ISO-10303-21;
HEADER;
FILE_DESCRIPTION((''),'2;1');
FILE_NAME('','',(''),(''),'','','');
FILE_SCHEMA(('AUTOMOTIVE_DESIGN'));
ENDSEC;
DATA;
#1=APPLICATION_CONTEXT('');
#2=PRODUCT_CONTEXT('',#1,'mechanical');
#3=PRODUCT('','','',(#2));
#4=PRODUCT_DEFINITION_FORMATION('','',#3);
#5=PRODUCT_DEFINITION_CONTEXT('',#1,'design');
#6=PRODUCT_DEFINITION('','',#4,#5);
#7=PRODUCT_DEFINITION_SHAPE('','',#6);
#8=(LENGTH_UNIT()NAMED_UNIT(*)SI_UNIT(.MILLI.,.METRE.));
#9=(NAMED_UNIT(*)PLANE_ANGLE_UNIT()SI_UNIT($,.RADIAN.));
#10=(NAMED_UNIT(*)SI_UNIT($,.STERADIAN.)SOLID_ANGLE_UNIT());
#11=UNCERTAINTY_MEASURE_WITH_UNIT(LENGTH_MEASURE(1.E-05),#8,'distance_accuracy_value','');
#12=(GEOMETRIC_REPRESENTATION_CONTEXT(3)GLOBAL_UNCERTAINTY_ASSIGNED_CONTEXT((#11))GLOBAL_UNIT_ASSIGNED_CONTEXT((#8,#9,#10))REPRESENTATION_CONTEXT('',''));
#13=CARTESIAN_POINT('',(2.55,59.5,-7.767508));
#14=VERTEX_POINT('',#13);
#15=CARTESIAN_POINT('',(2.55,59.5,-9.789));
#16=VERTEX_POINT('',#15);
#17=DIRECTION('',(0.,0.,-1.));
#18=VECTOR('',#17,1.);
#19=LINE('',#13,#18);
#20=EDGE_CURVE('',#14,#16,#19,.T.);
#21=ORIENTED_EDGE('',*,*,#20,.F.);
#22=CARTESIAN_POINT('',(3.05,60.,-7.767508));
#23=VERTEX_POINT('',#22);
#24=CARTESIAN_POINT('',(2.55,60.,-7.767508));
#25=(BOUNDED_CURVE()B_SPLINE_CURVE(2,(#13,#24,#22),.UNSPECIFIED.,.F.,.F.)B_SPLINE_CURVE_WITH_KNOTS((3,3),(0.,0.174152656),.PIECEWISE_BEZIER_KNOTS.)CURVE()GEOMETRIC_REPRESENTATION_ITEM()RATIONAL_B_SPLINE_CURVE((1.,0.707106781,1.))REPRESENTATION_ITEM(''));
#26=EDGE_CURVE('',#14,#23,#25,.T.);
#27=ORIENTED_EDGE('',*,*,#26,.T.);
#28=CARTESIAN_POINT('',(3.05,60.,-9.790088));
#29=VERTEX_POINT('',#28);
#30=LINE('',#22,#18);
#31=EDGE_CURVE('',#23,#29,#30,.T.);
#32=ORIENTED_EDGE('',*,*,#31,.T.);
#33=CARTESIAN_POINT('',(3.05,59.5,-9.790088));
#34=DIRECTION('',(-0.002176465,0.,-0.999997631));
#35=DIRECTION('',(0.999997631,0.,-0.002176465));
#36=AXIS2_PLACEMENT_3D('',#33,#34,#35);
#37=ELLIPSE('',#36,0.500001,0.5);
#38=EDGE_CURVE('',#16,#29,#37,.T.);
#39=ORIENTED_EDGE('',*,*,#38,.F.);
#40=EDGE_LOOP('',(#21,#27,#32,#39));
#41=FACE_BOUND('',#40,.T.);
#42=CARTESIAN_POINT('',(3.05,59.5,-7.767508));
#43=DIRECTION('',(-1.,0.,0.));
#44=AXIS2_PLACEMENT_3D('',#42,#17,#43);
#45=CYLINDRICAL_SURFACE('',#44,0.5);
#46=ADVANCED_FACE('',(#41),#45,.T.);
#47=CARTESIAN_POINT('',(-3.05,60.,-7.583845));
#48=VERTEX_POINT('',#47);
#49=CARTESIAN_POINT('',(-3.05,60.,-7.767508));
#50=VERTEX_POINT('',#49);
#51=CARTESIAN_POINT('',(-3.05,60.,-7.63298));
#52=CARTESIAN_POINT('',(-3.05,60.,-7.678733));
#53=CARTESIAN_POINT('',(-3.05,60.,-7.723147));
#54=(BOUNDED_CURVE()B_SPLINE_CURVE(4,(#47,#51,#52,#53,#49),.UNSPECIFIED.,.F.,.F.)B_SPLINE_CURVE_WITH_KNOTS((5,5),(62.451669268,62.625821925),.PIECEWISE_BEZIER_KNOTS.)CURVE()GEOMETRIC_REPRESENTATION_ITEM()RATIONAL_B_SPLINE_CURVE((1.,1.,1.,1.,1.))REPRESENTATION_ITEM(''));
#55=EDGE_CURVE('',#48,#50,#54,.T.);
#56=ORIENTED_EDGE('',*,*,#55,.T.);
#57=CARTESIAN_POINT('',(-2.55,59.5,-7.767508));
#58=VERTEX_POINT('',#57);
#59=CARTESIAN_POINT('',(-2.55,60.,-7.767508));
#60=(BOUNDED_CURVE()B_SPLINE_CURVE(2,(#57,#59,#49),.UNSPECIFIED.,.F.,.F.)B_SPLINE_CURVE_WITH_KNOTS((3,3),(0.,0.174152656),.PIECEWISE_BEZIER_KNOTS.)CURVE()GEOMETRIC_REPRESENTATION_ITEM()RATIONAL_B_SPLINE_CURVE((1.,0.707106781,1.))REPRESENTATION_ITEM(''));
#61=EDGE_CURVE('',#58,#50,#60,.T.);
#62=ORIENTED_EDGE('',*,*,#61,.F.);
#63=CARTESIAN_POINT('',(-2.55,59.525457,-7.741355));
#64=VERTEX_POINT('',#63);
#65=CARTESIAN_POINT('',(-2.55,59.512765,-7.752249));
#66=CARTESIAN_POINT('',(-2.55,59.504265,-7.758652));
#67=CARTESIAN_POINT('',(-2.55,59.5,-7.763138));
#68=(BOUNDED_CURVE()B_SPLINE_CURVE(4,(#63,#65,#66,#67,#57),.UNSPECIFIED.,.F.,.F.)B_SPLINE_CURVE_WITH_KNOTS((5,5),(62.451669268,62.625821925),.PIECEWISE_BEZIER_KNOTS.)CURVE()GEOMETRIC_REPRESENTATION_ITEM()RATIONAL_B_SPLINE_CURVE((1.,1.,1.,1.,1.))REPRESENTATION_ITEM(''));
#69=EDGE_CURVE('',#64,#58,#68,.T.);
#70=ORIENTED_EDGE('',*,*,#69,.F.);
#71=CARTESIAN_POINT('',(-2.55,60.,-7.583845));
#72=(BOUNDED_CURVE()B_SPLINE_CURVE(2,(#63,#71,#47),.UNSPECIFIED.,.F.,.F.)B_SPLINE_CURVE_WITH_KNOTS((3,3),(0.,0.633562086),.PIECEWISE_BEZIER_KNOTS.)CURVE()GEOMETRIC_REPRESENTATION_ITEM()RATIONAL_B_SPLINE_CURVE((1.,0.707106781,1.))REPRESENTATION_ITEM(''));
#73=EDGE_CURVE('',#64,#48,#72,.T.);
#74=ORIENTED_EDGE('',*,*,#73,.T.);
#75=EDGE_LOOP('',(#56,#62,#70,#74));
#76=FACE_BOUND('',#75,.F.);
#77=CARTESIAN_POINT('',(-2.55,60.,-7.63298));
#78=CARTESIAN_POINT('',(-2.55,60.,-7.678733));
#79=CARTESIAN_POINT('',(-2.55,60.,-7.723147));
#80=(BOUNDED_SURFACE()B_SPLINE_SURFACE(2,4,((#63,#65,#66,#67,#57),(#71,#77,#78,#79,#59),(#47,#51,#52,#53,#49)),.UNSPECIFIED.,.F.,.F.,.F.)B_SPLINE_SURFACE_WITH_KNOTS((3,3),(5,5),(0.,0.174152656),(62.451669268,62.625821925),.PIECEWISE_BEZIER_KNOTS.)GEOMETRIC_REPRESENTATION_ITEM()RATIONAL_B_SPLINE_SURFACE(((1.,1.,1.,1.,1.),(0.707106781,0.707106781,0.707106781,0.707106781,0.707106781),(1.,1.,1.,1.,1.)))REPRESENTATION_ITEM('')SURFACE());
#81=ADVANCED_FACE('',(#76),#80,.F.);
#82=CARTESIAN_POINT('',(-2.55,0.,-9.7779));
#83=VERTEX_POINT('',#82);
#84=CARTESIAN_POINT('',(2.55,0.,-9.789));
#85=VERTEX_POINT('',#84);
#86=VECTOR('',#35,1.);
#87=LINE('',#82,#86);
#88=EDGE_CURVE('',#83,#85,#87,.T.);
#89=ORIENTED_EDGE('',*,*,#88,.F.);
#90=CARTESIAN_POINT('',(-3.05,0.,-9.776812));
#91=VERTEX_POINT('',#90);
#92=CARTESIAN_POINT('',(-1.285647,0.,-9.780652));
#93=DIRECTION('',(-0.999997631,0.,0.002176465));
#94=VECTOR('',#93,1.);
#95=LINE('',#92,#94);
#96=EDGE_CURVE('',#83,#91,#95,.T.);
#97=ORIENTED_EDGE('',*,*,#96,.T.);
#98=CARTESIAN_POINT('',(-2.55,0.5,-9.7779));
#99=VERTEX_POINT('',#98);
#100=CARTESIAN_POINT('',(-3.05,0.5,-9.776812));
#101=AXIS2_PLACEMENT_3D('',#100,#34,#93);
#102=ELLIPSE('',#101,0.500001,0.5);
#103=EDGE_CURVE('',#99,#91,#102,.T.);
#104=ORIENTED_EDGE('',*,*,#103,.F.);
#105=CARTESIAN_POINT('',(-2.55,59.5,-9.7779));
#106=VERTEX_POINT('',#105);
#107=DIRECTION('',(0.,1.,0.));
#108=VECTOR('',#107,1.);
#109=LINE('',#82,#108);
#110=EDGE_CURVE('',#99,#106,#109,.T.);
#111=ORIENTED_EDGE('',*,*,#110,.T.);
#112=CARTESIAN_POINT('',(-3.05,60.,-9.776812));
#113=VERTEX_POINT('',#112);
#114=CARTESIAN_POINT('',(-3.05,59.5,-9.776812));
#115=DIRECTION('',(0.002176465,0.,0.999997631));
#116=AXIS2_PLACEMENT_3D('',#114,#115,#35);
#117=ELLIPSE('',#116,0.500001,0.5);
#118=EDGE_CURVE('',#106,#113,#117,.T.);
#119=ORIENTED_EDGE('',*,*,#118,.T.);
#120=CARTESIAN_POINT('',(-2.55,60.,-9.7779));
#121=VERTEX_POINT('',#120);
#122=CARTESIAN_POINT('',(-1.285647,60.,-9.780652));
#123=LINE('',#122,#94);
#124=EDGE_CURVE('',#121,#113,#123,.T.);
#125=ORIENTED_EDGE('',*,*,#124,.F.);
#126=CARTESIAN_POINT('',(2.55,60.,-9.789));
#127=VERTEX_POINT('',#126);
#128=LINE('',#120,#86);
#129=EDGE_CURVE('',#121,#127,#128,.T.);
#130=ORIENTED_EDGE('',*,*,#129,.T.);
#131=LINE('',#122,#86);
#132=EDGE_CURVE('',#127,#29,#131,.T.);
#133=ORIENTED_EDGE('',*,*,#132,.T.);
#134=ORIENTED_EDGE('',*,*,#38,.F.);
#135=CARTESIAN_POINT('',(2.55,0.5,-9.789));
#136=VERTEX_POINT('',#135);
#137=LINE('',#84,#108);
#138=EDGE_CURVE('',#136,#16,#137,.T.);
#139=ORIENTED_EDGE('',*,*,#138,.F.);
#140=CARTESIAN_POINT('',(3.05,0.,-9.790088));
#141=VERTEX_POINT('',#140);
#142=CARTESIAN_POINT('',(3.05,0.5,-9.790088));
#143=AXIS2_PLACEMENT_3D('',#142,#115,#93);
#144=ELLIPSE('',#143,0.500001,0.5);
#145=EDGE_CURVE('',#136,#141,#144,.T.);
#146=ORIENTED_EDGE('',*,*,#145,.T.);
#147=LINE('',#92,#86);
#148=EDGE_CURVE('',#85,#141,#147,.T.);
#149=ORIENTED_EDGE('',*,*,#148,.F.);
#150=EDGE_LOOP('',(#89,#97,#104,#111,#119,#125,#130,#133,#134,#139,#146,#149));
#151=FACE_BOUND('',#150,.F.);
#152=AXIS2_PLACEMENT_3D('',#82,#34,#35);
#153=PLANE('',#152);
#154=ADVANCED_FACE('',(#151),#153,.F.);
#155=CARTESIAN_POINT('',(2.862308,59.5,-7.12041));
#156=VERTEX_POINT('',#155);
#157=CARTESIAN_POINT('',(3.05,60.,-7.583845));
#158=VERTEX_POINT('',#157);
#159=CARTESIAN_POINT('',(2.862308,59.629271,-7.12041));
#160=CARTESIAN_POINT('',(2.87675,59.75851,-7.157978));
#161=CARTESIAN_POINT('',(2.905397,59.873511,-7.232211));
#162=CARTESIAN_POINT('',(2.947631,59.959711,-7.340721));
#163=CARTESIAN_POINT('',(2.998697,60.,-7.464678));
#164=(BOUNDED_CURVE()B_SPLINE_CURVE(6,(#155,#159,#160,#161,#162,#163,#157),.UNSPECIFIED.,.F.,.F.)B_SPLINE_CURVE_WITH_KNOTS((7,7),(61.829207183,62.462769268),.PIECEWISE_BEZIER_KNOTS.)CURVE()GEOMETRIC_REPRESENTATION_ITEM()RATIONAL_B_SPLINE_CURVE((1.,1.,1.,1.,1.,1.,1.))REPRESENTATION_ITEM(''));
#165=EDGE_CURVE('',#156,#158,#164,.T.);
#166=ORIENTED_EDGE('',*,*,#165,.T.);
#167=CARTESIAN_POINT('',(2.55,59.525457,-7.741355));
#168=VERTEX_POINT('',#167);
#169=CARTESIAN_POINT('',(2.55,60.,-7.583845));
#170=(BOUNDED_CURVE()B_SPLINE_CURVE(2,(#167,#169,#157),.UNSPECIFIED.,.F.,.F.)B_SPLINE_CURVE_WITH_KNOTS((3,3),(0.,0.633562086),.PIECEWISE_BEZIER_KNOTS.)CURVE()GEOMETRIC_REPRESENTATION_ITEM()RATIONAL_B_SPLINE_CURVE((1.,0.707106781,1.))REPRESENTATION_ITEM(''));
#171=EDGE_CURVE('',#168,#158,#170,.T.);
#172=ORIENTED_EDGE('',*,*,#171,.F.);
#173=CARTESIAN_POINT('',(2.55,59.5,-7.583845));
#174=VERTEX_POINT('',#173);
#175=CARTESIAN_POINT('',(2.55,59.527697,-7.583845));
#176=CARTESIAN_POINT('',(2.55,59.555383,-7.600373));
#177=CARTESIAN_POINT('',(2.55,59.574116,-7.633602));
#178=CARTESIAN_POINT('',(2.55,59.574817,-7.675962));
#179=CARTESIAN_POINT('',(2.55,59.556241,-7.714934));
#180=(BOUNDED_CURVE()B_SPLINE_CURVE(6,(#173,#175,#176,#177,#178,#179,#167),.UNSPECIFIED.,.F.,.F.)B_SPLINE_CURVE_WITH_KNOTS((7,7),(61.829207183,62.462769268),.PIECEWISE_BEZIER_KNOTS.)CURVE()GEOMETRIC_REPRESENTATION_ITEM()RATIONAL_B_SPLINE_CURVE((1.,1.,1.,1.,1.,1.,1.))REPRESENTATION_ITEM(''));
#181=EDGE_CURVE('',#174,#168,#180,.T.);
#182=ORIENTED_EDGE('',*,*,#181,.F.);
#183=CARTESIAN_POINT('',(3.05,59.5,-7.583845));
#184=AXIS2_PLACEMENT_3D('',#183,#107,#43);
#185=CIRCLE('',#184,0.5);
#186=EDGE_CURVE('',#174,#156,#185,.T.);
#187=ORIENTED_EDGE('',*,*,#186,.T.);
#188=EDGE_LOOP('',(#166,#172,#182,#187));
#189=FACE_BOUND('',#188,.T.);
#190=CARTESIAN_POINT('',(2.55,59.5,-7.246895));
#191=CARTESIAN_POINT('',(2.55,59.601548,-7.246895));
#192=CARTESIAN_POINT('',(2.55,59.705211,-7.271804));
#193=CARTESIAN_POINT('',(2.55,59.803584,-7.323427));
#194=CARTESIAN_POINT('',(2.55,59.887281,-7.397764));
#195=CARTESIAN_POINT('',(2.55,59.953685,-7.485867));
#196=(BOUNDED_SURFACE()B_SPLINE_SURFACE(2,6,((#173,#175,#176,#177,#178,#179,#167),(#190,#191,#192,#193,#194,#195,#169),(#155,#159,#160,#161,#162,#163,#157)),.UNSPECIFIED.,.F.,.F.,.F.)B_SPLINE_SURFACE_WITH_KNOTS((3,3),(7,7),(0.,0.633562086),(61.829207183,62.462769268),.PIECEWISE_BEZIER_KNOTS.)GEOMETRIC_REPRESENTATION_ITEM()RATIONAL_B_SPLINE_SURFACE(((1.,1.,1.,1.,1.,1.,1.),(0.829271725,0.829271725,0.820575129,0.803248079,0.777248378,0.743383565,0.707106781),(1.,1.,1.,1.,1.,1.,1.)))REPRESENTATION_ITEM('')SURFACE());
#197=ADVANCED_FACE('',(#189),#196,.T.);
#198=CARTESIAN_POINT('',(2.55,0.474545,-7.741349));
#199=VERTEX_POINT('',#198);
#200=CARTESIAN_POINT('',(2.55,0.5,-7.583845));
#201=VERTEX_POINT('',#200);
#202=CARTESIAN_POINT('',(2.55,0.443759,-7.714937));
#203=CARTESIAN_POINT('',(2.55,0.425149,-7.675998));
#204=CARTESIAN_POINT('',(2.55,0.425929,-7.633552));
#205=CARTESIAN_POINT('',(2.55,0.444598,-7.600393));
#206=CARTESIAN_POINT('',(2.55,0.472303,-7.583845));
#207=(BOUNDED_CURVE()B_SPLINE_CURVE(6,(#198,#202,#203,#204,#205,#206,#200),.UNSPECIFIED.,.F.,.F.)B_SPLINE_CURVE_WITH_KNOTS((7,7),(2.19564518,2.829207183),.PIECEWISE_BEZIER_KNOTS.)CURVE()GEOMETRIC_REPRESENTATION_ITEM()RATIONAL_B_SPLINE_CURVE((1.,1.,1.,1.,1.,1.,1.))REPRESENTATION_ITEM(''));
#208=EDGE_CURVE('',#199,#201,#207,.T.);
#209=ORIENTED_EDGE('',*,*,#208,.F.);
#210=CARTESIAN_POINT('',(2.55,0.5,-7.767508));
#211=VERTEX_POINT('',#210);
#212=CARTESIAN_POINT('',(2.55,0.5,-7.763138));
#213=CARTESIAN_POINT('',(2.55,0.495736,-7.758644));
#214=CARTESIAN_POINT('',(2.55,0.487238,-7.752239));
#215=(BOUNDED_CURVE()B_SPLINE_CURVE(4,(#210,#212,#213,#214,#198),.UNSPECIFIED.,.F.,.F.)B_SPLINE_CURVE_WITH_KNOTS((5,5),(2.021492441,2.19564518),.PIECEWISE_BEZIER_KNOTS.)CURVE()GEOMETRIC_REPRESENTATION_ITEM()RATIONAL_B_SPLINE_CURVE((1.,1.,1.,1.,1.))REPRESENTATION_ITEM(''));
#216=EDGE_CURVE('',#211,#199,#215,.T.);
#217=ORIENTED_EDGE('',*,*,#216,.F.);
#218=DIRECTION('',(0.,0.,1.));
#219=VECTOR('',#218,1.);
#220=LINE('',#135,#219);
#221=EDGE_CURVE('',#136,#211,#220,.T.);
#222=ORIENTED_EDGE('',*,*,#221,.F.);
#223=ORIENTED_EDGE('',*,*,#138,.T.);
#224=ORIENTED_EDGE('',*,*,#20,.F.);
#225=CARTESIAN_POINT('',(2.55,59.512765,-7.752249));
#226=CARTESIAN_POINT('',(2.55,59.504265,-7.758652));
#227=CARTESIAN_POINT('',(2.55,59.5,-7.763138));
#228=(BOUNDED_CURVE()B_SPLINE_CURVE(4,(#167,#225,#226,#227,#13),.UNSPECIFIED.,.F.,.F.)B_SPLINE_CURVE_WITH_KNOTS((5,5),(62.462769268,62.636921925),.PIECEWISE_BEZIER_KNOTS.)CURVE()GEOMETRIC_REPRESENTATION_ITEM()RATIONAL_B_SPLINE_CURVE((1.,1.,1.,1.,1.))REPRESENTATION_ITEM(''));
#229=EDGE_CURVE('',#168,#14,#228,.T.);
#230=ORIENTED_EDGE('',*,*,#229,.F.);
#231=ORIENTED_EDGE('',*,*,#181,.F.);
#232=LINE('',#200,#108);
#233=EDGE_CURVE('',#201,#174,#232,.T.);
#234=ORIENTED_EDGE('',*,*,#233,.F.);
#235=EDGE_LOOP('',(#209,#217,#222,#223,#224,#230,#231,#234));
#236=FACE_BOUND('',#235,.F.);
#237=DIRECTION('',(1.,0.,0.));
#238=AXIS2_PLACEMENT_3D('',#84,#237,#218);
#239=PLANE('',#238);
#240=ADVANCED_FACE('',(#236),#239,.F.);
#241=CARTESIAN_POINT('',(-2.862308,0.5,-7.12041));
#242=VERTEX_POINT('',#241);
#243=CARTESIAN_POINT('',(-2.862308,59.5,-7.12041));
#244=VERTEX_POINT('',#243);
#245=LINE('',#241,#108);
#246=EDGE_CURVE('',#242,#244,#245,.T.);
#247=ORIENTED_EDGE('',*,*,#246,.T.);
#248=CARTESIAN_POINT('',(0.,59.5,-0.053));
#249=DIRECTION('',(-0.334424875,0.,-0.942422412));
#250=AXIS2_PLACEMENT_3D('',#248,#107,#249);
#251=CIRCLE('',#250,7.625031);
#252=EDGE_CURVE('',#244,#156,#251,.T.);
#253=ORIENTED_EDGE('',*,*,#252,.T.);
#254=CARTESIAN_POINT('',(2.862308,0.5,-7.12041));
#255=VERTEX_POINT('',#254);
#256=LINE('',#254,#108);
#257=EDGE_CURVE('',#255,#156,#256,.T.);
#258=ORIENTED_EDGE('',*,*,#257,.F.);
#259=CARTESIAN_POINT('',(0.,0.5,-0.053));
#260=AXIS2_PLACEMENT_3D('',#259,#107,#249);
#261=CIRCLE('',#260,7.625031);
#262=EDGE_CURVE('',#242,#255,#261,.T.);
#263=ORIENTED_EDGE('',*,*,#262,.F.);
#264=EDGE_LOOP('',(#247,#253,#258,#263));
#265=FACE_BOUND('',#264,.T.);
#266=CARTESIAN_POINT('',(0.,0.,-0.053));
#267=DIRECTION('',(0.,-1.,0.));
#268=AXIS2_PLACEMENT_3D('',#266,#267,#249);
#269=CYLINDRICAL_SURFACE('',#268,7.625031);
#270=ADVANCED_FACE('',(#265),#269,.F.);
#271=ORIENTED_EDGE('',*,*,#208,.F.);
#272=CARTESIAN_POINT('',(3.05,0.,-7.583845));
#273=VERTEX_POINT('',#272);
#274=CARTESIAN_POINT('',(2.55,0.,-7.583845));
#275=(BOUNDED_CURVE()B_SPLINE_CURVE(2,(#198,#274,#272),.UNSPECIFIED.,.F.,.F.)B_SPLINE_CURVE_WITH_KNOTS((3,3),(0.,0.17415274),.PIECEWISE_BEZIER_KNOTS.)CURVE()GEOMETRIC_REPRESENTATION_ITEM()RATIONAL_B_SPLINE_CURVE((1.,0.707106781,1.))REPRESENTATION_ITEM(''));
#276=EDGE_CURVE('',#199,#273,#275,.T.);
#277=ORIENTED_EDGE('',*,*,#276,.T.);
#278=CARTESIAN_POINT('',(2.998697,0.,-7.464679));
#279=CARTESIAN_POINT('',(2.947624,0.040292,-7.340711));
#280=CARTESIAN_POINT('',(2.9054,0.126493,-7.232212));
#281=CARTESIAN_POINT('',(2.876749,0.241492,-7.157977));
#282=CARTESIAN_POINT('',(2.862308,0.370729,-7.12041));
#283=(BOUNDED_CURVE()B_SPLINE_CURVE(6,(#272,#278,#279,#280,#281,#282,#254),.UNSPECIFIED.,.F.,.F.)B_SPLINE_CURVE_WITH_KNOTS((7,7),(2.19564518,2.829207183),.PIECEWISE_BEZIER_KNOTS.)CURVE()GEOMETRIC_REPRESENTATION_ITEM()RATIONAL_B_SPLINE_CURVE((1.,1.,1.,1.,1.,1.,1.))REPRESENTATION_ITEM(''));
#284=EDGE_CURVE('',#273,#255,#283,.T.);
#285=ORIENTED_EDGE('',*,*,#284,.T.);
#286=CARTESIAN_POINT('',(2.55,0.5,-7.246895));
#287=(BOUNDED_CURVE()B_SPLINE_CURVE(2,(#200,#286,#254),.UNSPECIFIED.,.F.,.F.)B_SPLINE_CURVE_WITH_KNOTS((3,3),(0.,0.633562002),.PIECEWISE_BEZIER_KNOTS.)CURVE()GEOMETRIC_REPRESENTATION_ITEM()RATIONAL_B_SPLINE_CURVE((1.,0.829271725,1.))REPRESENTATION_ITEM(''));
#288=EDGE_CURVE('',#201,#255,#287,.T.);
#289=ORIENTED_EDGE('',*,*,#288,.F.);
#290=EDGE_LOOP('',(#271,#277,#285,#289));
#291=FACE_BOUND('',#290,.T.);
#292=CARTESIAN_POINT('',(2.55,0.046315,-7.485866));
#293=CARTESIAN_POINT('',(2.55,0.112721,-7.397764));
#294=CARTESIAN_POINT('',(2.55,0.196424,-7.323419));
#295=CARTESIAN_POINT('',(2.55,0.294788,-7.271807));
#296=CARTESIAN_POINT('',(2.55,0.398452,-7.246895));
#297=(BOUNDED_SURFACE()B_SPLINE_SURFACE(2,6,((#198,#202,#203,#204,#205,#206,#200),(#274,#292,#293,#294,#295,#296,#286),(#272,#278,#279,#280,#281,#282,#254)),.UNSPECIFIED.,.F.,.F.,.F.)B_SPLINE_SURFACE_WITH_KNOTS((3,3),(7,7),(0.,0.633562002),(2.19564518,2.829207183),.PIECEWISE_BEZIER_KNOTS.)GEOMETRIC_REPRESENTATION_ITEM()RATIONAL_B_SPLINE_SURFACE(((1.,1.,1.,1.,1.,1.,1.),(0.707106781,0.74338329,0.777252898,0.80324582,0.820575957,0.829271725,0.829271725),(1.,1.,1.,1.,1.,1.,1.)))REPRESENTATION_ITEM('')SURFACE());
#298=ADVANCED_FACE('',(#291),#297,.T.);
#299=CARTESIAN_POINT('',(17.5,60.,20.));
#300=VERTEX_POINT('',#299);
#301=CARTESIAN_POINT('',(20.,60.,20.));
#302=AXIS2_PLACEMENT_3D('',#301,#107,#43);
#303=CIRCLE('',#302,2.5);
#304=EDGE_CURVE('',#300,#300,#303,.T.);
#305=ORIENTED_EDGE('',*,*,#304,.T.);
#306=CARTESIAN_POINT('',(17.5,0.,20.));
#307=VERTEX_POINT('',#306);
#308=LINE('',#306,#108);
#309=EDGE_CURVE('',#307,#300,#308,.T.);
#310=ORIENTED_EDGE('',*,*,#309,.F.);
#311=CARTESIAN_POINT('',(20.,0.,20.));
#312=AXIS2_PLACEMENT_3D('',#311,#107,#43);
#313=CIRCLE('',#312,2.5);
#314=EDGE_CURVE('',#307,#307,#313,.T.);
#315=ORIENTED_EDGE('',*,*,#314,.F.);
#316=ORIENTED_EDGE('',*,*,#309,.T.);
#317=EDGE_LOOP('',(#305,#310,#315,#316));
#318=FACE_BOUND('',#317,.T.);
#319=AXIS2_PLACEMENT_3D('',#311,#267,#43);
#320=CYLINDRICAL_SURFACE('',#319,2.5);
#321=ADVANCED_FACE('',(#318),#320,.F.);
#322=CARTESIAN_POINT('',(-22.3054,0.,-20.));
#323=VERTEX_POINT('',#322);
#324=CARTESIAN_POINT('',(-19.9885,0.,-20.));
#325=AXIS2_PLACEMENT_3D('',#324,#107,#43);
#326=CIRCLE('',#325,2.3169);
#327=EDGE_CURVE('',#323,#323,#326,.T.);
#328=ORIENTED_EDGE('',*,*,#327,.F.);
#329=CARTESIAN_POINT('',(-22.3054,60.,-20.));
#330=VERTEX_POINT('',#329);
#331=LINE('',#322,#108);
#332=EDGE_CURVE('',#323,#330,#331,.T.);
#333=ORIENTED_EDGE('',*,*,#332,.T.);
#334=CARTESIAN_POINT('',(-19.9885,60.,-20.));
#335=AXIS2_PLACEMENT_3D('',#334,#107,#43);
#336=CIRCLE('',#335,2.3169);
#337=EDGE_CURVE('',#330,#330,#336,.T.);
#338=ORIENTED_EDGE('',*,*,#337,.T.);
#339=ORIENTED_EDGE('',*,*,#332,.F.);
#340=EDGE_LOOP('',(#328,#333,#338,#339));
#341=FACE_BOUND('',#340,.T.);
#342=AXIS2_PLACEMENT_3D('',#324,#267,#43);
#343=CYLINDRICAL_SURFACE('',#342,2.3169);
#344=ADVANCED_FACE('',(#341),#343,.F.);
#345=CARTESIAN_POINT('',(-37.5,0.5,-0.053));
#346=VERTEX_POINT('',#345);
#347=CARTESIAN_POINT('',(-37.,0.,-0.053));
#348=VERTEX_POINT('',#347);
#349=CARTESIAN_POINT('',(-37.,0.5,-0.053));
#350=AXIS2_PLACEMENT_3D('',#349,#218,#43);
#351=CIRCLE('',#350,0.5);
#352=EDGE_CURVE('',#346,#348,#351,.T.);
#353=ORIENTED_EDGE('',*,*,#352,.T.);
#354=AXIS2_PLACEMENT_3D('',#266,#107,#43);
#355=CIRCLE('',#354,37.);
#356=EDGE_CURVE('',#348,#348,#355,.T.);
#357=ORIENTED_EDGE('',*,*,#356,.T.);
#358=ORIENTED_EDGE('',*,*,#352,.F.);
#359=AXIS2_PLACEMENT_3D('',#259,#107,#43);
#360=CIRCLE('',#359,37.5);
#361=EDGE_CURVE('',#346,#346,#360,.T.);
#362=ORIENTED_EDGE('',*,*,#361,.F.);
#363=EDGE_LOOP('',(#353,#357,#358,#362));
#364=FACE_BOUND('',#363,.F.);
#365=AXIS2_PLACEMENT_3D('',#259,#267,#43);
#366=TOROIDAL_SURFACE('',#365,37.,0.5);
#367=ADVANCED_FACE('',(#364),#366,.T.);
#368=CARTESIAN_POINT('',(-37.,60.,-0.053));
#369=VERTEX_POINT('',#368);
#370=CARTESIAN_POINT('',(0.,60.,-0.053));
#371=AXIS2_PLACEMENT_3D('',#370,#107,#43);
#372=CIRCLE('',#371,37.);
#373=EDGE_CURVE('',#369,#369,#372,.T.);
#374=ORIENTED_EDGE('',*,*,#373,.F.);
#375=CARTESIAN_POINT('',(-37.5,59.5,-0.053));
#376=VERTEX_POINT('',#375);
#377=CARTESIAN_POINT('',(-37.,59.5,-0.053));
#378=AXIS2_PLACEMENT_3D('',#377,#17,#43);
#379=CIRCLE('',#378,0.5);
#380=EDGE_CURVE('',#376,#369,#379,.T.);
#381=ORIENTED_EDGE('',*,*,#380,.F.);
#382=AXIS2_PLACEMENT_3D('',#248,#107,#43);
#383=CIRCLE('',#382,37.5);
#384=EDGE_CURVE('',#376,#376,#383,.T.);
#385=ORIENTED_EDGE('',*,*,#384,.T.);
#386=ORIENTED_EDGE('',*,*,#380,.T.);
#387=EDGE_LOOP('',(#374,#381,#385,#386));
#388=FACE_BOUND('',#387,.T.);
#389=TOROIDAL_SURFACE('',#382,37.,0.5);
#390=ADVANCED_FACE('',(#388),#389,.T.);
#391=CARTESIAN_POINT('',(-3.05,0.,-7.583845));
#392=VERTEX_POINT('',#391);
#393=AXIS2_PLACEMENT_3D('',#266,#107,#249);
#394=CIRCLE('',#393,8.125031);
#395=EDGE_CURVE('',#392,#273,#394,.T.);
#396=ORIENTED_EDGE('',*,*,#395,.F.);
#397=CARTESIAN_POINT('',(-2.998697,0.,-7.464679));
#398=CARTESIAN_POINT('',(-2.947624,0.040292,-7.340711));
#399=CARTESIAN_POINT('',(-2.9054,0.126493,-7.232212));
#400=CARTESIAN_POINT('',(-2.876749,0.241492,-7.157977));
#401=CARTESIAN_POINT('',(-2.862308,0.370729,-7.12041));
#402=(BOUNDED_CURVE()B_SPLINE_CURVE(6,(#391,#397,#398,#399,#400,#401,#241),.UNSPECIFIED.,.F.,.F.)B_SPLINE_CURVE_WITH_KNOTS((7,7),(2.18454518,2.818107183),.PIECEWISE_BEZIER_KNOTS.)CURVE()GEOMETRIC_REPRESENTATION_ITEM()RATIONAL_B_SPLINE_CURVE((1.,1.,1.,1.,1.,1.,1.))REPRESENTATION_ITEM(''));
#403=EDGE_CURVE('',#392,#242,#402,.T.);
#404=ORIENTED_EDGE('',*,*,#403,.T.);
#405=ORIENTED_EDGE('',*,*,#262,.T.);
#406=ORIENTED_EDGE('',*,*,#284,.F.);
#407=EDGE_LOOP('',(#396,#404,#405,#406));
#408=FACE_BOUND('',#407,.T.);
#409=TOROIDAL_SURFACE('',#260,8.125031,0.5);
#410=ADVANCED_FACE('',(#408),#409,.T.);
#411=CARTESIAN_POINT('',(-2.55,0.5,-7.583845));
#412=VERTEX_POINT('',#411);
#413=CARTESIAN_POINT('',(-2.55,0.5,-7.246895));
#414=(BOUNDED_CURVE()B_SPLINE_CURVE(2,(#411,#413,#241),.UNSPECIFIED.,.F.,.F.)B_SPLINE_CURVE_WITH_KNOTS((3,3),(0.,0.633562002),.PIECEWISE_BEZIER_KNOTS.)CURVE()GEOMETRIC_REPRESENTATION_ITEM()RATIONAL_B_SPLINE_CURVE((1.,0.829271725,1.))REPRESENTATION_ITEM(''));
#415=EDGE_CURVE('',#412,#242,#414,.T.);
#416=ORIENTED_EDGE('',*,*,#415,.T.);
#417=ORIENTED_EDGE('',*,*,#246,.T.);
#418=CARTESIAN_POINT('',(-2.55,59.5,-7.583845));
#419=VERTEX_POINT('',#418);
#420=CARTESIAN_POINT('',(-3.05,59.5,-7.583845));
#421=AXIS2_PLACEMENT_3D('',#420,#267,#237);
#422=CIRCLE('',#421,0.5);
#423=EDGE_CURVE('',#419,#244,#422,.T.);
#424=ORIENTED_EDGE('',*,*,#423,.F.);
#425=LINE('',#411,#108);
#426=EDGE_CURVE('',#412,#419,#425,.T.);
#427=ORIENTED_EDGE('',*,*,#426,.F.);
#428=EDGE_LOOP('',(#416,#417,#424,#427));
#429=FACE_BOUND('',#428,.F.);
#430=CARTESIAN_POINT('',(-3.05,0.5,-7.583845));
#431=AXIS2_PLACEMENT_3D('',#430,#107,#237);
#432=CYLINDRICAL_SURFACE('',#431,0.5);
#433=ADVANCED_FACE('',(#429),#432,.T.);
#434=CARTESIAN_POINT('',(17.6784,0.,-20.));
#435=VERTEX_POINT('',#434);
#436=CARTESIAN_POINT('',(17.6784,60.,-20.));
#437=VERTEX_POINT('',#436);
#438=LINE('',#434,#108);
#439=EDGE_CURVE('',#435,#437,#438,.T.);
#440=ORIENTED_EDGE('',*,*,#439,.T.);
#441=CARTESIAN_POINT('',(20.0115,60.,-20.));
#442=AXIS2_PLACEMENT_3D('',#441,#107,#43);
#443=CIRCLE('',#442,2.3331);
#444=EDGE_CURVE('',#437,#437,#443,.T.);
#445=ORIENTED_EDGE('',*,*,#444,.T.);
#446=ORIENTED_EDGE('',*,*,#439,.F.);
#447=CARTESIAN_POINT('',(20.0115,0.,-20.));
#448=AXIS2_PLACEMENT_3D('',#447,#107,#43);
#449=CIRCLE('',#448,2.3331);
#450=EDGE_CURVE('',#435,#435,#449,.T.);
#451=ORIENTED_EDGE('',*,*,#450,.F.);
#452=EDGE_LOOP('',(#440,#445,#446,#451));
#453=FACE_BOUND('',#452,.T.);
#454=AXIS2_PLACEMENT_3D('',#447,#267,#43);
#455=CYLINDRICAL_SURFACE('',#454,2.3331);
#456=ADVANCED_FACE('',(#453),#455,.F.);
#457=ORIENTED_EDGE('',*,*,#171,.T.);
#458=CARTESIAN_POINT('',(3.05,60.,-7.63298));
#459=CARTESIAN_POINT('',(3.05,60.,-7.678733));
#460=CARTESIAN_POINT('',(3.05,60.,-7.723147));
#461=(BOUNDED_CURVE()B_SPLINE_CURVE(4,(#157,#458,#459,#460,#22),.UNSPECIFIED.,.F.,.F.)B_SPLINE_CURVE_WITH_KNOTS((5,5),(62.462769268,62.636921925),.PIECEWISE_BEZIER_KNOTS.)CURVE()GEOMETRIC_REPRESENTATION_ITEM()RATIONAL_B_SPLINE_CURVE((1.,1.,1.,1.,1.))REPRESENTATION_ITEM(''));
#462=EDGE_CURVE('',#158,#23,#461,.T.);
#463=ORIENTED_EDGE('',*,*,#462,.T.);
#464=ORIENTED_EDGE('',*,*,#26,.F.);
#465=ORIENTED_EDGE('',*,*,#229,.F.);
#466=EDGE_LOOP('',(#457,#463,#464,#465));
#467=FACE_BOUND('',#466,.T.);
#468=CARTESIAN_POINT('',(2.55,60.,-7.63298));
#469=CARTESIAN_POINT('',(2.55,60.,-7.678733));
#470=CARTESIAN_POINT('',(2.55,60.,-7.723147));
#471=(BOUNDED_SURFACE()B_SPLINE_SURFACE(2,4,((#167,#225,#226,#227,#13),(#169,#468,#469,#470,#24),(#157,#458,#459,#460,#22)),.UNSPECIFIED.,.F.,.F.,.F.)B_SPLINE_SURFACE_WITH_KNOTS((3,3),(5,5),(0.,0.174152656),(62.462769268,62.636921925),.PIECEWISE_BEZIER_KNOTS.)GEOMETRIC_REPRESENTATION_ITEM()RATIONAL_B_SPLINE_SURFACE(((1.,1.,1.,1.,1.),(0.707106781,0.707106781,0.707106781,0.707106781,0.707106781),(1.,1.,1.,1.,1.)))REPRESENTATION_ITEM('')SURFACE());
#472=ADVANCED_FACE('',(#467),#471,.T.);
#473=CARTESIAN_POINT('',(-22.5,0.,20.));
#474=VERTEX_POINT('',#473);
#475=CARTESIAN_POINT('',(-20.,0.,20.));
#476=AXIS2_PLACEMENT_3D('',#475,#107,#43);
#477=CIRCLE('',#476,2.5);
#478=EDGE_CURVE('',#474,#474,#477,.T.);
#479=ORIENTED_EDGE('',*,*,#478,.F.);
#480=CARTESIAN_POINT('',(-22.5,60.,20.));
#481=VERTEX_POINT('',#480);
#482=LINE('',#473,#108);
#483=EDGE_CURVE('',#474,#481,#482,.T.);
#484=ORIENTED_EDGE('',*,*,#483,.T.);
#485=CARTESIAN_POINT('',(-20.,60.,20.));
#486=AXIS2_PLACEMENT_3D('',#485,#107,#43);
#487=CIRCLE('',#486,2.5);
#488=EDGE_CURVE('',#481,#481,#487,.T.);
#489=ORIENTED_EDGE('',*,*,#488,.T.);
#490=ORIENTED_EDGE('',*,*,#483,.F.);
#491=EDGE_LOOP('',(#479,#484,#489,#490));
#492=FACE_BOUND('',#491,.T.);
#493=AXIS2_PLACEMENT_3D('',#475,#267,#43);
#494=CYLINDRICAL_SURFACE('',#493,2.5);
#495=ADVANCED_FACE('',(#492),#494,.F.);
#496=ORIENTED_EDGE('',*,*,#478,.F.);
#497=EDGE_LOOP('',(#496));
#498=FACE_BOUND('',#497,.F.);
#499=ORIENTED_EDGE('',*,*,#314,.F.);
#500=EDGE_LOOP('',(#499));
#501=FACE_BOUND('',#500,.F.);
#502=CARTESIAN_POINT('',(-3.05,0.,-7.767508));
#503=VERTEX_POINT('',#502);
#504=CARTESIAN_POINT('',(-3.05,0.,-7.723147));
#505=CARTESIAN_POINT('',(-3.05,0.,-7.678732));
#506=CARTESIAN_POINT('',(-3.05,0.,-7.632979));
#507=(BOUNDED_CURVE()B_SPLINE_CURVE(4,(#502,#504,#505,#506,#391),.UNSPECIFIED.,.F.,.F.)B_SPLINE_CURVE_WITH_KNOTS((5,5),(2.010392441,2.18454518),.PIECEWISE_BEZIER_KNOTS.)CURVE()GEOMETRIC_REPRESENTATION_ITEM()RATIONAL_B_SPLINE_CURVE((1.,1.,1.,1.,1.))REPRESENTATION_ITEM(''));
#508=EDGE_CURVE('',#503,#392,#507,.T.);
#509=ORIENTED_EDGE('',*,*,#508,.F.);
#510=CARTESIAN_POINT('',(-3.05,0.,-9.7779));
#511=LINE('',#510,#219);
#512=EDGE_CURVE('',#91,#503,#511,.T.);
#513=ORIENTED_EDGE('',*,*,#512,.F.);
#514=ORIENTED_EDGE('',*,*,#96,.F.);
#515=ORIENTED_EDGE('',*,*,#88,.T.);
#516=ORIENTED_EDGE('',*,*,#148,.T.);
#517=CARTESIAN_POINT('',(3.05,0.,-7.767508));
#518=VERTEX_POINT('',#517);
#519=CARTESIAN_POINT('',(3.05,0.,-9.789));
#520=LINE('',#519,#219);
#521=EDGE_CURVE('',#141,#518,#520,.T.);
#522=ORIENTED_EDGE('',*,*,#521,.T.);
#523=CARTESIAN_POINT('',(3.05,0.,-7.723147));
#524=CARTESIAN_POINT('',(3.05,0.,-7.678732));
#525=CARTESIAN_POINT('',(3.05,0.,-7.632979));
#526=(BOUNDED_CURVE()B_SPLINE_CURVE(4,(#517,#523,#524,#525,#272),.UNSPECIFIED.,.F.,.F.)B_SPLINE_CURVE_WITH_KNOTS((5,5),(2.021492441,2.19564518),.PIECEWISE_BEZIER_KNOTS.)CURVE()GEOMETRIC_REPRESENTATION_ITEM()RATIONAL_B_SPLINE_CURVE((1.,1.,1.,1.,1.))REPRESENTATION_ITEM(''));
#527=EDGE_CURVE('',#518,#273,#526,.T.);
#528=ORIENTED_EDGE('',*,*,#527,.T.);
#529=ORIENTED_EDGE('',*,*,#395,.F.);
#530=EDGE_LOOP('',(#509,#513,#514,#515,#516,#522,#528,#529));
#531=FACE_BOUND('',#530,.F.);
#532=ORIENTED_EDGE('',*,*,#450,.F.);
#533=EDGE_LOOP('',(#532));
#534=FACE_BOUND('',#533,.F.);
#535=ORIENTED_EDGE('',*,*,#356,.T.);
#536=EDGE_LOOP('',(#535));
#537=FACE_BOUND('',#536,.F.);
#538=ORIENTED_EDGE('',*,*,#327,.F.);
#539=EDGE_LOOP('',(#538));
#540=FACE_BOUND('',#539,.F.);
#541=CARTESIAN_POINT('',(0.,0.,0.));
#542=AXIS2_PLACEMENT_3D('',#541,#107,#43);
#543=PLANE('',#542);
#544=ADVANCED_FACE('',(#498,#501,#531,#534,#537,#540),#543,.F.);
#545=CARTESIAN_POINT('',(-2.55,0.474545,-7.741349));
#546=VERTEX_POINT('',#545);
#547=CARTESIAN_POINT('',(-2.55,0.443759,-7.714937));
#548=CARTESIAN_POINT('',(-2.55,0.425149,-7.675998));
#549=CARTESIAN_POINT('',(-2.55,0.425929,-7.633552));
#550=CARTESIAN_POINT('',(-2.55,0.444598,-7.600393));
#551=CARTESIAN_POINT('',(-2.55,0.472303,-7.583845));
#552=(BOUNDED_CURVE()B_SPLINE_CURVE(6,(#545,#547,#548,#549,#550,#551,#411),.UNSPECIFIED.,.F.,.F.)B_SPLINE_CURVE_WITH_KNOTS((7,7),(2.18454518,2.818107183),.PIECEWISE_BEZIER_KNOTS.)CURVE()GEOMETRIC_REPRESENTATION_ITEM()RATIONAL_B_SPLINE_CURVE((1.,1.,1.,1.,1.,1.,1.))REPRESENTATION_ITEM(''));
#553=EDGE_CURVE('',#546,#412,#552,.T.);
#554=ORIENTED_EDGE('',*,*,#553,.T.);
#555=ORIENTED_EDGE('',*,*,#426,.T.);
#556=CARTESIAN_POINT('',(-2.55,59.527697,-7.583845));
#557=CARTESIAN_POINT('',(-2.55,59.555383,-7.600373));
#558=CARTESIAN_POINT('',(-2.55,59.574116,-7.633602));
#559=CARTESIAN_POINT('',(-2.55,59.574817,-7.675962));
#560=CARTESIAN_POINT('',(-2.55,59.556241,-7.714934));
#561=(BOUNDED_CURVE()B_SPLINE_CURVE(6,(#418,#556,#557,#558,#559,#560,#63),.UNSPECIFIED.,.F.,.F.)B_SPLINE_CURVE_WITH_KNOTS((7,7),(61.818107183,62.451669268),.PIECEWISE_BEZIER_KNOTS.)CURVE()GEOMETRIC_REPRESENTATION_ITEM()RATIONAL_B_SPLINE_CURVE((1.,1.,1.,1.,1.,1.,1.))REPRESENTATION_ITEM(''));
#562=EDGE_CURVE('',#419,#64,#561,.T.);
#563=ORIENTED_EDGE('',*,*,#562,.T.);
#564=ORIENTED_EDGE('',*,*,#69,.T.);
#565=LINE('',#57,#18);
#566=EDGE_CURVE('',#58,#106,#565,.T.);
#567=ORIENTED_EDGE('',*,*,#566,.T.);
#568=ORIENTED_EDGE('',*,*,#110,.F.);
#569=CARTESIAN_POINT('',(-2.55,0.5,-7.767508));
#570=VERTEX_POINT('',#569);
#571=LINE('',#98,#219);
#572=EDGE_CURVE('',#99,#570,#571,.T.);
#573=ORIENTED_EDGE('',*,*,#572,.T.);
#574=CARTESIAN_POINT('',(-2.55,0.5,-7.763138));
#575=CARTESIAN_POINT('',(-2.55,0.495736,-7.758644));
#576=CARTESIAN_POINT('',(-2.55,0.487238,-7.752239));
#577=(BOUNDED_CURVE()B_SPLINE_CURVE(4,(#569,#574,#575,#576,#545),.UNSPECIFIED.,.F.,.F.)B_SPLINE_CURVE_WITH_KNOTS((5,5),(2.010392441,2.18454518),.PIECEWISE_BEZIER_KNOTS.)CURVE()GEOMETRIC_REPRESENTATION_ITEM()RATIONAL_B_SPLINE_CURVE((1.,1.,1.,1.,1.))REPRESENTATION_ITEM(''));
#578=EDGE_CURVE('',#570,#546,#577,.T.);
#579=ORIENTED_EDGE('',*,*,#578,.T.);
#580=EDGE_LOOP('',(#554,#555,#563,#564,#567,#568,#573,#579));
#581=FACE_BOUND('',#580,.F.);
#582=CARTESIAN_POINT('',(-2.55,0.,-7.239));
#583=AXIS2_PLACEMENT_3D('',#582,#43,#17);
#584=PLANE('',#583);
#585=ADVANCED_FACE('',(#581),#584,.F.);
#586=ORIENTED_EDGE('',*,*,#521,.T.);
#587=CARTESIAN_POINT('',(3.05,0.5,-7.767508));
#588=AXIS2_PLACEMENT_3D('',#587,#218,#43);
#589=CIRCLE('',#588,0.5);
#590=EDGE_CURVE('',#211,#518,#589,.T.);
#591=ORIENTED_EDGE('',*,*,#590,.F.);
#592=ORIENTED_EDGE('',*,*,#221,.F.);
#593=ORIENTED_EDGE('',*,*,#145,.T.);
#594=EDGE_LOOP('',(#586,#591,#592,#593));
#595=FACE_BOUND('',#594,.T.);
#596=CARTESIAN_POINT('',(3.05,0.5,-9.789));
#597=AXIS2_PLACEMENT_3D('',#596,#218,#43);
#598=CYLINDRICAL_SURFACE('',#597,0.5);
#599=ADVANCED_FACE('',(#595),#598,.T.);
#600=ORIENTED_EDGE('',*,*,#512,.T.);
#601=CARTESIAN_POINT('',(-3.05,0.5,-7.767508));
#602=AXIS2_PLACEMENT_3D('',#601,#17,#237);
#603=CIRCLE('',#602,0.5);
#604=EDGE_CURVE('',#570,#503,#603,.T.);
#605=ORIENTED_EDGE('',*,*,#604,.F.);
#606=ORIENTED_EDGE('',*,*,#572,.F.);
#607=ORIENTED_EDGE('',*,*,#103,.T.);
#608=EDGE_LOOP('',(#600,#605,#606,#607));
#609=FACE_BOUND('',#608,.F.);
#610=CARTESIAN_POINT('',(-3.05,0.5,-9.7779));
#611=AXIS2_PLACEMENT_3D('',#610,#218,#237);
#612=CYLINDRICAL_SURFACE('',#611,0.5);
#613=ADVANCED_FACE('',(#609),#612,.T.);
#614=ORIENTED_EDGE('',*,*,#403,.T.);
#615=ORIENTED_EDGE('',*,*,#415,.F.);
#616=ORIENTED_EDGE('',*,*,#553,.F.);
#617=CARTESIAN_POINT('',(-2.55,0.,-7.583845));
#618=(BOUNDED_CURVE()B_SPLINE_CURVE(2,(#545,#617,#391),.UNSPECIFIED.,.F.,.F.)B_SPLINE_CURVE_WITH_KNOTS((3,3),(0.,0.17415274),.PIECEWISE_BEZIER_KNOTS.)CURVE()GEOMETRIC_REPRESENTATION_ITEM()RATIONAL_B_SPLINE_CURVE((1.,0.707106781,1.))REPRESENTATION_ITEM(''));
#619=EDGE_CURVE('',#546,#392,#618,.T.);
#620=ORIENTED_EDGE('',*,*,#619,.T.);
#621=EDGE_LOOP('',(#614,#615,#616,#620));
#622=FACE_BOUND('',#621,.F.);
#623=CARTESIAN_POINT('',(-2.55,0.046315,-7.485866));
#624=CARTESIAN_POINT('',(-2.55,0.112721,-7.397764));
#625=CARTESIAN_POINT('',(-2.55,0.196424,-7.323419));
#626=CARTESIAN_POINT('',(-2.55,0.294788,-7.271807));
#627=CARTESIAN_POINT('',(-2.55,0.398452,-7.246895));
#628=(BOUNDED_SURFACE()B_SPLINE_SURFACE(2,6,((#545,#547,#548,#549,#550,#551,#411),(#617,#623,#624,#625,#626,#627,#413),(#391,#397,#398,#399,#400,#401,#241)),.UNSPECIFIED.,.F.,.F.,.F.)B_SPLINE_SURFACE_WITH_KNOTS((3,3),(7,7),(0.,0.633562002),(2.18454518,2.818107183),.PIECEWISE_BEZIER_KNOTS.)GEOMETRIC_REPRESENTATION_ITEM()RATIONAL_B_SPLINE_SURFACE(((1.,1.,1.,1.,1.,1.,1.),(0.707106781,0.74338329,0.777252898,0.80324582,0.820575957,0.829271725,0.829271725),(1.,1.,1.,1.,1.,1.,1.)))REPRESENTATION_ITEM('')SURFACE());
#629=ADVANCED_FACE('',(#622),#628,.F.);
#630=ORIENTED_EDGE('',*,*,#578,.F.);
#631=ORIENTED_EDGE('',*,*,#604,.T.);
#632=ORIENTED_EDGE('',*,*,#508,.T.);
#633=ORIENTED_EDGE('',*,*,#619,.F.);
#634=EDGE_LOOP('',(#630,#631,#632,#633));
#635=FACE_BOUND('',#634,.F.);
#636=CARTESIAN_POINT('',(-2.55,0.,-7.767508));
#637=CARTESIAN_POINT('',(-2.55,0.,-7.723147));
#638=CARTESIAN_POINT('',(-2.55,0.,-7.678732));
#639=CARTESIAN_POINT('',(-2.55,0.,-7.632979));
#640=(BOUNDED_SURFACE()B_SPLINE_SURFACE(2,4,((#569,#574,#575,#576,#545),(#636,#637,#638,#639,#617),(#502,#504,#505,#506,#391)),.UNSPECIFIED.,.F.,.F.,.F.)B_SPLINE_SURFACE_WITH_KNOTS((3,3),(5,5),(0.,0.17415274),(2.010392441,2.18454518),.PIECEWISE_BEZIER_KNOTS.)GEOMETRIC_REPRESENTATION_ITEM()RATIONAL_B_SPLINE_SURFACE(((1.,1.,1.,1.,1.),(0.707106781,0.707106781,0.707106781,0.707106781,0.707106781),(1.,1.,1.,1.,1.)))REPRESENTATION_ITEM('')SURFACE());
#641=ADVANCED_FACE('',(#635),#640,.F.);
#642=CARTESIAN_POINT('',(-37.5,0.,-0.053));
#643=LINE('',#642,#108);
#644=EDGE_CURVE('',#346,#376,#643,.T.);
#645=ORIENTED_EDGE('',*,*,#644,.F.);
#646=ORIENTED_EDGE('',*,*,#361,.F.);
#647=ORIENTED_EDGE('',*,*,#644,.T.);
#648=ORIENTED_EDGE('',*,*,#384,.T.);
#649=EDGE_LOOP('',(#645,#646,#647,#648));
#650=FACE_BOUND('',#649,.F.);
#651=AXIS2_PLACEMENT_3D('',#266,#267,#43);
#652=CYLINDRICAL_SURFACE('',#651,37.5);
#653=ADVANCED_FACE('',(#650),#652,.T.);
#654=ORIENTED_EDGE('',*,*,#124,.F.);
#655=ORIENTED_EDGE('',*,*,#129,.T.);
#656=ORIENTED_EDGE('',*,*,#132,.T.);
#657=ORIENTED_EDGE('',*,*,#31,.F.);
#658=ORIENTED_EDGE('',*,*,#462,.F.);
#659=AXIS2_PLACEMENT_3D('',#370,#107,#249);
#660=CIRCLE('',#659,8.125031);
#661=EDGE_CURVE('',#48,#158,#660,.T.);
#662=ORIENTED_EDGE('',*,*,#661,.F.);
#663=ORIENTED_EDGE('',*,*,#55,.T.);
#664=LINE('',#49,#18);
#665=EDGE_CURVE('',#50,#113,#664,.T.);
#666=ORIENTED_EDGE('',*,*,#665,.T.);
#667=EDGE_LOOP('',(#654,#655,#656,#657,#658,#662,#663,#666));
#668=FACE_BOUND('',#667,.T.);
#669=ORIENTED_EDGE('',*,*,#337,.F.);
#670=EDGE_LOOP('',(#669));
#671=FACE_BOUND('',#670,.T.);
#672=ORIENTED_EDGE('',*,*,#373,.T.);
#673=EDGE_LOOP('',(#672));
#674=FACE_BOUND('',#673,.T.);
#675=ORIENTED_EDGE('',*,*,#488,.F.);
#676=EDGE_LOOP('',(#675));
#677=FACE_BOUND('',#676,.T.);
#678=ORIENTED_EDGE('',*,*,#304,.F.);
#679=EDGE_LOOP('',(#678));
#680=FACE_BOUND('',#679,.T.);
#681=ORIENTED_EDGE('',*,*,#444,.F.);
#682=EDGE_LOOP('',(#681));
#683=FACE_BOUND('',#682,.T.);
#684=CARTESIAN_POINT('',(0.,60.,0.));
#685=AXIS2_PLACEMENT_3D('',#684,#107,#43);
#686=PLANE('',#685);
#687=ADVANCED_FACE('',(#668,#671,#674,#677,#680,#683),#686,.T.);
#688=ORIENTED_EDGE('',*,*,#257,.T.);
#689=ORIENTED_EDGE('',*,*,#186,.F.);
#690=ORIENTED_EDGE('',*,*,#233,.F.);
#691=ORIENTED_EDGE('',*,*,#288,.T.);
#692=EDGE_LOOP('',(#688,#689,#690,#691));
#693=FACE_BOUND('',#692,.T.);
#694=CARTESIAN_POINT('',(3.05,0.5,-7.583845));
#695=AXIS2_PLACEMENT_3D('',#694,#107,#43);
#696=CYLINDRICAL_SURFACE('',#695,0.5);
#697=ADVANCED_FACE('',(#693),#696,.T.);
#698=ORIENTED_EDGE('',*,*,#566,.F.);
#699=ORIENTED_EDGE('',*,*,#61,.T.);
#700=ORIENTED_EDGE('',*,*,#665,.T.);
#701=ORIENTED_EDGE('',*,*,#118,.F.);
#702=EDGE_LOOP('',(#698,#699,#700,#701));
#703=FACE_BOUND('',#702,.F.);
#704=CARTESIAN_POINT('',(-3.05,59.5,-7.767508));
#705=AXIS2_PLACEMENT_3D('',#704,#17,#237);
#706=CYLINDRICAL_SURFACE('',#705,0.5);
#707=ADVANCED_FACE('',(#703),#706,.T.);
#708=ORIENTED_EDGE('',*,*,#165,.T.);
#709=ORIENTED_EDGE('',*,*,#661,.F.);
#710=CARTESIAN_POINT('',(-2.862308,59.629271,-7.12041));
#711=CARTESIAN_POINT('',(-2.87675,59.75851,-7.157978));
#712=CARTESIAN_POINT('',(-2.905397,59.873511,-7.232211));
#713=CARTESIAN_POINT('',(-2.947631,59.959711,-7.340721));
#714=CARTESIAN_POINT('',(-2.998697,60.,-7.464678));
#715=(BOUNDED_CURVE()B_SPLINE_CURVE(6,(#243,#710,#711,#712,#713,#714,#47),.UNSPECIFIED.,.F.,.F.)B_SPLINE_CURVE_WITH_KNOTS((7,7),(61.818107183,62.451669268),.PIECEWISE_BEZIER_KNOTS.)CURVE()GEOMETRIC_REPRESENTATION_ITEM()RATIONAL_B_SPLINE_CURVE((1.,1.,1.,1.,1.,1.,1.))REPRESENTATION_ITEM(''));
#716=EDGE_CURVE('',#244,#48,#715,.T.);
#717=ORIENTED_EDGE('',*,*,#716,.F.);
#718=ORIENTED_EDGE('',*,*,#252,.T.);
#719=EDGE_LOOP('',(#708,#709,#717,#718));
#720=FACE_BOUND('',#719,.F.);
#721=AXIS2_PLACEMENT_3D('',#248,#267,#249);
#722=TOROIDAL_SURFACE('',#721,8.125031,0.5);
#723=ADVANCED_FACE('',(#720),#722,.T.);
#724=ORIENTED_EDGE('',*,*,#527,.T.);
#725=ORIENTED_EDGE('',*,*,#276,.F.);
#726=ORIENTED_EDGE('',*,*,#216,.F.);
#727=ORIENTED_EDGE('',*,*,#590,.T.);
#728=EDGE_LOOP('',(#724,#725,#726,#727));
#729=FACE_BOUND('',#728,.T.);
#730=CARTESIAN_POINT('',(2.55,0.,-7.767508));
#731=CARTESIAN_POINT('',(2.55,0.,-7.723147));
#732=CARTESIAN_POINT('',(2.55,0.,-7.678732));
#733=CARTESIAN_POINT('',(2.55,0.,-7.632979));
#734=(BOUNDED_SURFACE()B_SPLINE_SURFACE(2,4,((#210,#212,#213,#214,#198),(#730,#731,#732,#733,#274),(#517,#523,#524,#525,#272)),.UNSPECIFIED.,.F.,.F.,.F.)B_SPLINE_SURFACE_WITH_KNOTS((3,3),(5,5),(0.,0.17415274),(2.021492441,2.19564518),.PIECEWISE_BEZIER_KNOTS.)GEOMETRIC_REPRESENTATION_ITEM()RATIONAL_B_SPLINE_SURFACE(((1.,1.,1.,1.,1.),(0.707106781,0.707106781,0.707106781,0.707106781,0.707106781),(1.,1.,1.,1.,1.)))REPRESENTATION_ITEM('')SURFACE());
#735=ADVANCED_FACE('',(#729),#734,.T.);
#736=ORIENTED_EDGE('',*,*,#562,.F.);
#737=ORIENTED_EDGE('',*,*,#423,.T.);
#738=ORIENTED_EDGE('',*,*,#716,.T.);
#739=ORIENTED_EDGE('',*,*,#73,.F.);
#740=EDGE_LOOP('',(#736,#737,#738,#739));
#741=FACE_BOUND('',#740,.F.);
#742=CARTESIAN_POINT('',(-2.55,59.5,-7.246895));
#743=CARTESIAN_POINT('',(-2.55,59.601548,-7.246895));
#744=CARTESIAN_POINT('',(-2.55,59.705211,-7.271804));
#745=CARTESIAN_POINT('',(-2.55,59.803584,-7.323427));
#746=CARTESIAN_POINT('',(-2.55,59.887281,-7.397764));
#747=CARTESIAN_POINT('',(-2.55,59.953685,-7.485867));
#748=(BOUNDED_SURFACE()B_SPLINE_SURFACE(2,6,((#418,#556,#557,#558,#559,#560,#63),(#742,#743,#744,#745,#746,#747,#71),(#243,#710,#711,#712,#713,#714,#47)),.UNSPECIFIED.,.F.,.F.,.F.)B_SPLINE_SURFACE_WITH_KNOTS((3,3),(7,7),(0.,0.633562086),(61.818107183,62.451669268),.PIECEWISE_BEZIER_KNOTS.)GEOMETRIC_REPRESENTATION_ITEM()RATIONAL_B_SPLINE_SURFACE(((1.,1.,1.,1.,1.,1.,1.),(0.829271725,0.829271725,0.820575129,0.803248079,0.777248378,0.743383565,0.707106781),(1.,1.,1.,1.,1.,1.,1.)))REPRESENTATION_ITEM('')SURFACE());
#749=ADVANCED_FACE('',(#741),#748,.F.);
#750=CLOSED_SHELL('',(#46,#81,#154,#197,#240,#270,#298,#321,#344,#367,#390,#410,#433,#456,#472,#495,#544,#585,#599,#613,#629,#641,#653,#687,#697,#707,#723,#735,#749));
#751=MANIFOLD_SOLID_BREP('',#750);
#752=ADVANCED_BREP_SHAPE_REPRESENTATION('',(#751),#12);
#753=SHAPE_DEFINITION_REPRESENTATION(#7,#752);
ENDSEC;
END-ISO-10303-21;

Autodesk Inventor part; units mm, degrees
ref_plane "YZ Plane" through (0, 0, 0) normal (1, 0, 0) x (0, 1, 0)
ref_plane "XZ Plane" through (0, 0, 0) normal (0, 1, 0) x (-1, 0, 0)
ref_plane "XY Plane" through (0, 0, 0) normal (0, 0, 1) x (1, 0, 0)
sketch "Sketch1" plane through (0, 0, 0) normal (0, 1, 0) x (-1, 0, 0)
  circle A0 centre (-20, 20) radius 2.5
  circle A1 centre (-20.0115, -20) radius 2.3331
  circle A2 centre (20, 20) radius 2.5
  circle A3 centre (19.9885, -20) radius 2.3169
  circle A4 centre (0, -0.053) radius 37.5
  line L0 (2.55, -7.239) -> (2.55, -9.7779)
  line L1 (2.55, -9.7779) -> (-2.55, -9.789)
  line L2 (-2.55, -9.789) -> (-2.55, -7.239)
  line L3 (-2.55, -5.5721) -> (2.55, -9.7779) construction
  line L4 (2.55, -5.561) -> (-2.55, -9.789) construction
  line L5 (0, -0.053) -> (0, -12.2317) construction
  arc A5 (2.55, -7.239) -> (-2.55, -7.239) centre (0, -0.053) ccw
  point P0 (0, 0)
  point P1 (0, -7.675)
  point P2 (2.55, -8.5084)
  point P3 (-2.55, -8.514)
  dimension "d1" = 40
  dimension "d2" = 40
  dimension "d3" = 40
  dimension "d4" = 40
  dimension "d10" = 75
  dimension "d16" = 0
  dimension "d17" = 2.55
  dimension "d19" = 5.1
  dimension "d20" = 0
  dimension "d21" = 0
  dimension "d22" = 2.1084
  dimension "d24" = 7.625
extrude "Extrusion1" add sketch "Sketch1" along normal blind 60
fillet "Fillet1" radius 0.5 4 edges at (37.5, 60, -0.053) (37.5, 0, -0.053) (0, 60, 7.572) (0, 0, 7.572)
fillet "Fillet2" radius 0.5 10 edges at (-2.55, 59.8545, -7.3953) (-2.55, 60, -8.7727) (-2.55, 0.1455, -7.3953) (-2.55, 0, -8.7727) (-2.55, 30, -7.239) (2.55, 59.8545, -7.3953) (2.55, 60, -8.7783) (2.55, 0.1455, -7.3953) (2.55, 0, -8.7783) (2.55, 30, -7.239)
properties part number "Flansch 3Ddruck"
